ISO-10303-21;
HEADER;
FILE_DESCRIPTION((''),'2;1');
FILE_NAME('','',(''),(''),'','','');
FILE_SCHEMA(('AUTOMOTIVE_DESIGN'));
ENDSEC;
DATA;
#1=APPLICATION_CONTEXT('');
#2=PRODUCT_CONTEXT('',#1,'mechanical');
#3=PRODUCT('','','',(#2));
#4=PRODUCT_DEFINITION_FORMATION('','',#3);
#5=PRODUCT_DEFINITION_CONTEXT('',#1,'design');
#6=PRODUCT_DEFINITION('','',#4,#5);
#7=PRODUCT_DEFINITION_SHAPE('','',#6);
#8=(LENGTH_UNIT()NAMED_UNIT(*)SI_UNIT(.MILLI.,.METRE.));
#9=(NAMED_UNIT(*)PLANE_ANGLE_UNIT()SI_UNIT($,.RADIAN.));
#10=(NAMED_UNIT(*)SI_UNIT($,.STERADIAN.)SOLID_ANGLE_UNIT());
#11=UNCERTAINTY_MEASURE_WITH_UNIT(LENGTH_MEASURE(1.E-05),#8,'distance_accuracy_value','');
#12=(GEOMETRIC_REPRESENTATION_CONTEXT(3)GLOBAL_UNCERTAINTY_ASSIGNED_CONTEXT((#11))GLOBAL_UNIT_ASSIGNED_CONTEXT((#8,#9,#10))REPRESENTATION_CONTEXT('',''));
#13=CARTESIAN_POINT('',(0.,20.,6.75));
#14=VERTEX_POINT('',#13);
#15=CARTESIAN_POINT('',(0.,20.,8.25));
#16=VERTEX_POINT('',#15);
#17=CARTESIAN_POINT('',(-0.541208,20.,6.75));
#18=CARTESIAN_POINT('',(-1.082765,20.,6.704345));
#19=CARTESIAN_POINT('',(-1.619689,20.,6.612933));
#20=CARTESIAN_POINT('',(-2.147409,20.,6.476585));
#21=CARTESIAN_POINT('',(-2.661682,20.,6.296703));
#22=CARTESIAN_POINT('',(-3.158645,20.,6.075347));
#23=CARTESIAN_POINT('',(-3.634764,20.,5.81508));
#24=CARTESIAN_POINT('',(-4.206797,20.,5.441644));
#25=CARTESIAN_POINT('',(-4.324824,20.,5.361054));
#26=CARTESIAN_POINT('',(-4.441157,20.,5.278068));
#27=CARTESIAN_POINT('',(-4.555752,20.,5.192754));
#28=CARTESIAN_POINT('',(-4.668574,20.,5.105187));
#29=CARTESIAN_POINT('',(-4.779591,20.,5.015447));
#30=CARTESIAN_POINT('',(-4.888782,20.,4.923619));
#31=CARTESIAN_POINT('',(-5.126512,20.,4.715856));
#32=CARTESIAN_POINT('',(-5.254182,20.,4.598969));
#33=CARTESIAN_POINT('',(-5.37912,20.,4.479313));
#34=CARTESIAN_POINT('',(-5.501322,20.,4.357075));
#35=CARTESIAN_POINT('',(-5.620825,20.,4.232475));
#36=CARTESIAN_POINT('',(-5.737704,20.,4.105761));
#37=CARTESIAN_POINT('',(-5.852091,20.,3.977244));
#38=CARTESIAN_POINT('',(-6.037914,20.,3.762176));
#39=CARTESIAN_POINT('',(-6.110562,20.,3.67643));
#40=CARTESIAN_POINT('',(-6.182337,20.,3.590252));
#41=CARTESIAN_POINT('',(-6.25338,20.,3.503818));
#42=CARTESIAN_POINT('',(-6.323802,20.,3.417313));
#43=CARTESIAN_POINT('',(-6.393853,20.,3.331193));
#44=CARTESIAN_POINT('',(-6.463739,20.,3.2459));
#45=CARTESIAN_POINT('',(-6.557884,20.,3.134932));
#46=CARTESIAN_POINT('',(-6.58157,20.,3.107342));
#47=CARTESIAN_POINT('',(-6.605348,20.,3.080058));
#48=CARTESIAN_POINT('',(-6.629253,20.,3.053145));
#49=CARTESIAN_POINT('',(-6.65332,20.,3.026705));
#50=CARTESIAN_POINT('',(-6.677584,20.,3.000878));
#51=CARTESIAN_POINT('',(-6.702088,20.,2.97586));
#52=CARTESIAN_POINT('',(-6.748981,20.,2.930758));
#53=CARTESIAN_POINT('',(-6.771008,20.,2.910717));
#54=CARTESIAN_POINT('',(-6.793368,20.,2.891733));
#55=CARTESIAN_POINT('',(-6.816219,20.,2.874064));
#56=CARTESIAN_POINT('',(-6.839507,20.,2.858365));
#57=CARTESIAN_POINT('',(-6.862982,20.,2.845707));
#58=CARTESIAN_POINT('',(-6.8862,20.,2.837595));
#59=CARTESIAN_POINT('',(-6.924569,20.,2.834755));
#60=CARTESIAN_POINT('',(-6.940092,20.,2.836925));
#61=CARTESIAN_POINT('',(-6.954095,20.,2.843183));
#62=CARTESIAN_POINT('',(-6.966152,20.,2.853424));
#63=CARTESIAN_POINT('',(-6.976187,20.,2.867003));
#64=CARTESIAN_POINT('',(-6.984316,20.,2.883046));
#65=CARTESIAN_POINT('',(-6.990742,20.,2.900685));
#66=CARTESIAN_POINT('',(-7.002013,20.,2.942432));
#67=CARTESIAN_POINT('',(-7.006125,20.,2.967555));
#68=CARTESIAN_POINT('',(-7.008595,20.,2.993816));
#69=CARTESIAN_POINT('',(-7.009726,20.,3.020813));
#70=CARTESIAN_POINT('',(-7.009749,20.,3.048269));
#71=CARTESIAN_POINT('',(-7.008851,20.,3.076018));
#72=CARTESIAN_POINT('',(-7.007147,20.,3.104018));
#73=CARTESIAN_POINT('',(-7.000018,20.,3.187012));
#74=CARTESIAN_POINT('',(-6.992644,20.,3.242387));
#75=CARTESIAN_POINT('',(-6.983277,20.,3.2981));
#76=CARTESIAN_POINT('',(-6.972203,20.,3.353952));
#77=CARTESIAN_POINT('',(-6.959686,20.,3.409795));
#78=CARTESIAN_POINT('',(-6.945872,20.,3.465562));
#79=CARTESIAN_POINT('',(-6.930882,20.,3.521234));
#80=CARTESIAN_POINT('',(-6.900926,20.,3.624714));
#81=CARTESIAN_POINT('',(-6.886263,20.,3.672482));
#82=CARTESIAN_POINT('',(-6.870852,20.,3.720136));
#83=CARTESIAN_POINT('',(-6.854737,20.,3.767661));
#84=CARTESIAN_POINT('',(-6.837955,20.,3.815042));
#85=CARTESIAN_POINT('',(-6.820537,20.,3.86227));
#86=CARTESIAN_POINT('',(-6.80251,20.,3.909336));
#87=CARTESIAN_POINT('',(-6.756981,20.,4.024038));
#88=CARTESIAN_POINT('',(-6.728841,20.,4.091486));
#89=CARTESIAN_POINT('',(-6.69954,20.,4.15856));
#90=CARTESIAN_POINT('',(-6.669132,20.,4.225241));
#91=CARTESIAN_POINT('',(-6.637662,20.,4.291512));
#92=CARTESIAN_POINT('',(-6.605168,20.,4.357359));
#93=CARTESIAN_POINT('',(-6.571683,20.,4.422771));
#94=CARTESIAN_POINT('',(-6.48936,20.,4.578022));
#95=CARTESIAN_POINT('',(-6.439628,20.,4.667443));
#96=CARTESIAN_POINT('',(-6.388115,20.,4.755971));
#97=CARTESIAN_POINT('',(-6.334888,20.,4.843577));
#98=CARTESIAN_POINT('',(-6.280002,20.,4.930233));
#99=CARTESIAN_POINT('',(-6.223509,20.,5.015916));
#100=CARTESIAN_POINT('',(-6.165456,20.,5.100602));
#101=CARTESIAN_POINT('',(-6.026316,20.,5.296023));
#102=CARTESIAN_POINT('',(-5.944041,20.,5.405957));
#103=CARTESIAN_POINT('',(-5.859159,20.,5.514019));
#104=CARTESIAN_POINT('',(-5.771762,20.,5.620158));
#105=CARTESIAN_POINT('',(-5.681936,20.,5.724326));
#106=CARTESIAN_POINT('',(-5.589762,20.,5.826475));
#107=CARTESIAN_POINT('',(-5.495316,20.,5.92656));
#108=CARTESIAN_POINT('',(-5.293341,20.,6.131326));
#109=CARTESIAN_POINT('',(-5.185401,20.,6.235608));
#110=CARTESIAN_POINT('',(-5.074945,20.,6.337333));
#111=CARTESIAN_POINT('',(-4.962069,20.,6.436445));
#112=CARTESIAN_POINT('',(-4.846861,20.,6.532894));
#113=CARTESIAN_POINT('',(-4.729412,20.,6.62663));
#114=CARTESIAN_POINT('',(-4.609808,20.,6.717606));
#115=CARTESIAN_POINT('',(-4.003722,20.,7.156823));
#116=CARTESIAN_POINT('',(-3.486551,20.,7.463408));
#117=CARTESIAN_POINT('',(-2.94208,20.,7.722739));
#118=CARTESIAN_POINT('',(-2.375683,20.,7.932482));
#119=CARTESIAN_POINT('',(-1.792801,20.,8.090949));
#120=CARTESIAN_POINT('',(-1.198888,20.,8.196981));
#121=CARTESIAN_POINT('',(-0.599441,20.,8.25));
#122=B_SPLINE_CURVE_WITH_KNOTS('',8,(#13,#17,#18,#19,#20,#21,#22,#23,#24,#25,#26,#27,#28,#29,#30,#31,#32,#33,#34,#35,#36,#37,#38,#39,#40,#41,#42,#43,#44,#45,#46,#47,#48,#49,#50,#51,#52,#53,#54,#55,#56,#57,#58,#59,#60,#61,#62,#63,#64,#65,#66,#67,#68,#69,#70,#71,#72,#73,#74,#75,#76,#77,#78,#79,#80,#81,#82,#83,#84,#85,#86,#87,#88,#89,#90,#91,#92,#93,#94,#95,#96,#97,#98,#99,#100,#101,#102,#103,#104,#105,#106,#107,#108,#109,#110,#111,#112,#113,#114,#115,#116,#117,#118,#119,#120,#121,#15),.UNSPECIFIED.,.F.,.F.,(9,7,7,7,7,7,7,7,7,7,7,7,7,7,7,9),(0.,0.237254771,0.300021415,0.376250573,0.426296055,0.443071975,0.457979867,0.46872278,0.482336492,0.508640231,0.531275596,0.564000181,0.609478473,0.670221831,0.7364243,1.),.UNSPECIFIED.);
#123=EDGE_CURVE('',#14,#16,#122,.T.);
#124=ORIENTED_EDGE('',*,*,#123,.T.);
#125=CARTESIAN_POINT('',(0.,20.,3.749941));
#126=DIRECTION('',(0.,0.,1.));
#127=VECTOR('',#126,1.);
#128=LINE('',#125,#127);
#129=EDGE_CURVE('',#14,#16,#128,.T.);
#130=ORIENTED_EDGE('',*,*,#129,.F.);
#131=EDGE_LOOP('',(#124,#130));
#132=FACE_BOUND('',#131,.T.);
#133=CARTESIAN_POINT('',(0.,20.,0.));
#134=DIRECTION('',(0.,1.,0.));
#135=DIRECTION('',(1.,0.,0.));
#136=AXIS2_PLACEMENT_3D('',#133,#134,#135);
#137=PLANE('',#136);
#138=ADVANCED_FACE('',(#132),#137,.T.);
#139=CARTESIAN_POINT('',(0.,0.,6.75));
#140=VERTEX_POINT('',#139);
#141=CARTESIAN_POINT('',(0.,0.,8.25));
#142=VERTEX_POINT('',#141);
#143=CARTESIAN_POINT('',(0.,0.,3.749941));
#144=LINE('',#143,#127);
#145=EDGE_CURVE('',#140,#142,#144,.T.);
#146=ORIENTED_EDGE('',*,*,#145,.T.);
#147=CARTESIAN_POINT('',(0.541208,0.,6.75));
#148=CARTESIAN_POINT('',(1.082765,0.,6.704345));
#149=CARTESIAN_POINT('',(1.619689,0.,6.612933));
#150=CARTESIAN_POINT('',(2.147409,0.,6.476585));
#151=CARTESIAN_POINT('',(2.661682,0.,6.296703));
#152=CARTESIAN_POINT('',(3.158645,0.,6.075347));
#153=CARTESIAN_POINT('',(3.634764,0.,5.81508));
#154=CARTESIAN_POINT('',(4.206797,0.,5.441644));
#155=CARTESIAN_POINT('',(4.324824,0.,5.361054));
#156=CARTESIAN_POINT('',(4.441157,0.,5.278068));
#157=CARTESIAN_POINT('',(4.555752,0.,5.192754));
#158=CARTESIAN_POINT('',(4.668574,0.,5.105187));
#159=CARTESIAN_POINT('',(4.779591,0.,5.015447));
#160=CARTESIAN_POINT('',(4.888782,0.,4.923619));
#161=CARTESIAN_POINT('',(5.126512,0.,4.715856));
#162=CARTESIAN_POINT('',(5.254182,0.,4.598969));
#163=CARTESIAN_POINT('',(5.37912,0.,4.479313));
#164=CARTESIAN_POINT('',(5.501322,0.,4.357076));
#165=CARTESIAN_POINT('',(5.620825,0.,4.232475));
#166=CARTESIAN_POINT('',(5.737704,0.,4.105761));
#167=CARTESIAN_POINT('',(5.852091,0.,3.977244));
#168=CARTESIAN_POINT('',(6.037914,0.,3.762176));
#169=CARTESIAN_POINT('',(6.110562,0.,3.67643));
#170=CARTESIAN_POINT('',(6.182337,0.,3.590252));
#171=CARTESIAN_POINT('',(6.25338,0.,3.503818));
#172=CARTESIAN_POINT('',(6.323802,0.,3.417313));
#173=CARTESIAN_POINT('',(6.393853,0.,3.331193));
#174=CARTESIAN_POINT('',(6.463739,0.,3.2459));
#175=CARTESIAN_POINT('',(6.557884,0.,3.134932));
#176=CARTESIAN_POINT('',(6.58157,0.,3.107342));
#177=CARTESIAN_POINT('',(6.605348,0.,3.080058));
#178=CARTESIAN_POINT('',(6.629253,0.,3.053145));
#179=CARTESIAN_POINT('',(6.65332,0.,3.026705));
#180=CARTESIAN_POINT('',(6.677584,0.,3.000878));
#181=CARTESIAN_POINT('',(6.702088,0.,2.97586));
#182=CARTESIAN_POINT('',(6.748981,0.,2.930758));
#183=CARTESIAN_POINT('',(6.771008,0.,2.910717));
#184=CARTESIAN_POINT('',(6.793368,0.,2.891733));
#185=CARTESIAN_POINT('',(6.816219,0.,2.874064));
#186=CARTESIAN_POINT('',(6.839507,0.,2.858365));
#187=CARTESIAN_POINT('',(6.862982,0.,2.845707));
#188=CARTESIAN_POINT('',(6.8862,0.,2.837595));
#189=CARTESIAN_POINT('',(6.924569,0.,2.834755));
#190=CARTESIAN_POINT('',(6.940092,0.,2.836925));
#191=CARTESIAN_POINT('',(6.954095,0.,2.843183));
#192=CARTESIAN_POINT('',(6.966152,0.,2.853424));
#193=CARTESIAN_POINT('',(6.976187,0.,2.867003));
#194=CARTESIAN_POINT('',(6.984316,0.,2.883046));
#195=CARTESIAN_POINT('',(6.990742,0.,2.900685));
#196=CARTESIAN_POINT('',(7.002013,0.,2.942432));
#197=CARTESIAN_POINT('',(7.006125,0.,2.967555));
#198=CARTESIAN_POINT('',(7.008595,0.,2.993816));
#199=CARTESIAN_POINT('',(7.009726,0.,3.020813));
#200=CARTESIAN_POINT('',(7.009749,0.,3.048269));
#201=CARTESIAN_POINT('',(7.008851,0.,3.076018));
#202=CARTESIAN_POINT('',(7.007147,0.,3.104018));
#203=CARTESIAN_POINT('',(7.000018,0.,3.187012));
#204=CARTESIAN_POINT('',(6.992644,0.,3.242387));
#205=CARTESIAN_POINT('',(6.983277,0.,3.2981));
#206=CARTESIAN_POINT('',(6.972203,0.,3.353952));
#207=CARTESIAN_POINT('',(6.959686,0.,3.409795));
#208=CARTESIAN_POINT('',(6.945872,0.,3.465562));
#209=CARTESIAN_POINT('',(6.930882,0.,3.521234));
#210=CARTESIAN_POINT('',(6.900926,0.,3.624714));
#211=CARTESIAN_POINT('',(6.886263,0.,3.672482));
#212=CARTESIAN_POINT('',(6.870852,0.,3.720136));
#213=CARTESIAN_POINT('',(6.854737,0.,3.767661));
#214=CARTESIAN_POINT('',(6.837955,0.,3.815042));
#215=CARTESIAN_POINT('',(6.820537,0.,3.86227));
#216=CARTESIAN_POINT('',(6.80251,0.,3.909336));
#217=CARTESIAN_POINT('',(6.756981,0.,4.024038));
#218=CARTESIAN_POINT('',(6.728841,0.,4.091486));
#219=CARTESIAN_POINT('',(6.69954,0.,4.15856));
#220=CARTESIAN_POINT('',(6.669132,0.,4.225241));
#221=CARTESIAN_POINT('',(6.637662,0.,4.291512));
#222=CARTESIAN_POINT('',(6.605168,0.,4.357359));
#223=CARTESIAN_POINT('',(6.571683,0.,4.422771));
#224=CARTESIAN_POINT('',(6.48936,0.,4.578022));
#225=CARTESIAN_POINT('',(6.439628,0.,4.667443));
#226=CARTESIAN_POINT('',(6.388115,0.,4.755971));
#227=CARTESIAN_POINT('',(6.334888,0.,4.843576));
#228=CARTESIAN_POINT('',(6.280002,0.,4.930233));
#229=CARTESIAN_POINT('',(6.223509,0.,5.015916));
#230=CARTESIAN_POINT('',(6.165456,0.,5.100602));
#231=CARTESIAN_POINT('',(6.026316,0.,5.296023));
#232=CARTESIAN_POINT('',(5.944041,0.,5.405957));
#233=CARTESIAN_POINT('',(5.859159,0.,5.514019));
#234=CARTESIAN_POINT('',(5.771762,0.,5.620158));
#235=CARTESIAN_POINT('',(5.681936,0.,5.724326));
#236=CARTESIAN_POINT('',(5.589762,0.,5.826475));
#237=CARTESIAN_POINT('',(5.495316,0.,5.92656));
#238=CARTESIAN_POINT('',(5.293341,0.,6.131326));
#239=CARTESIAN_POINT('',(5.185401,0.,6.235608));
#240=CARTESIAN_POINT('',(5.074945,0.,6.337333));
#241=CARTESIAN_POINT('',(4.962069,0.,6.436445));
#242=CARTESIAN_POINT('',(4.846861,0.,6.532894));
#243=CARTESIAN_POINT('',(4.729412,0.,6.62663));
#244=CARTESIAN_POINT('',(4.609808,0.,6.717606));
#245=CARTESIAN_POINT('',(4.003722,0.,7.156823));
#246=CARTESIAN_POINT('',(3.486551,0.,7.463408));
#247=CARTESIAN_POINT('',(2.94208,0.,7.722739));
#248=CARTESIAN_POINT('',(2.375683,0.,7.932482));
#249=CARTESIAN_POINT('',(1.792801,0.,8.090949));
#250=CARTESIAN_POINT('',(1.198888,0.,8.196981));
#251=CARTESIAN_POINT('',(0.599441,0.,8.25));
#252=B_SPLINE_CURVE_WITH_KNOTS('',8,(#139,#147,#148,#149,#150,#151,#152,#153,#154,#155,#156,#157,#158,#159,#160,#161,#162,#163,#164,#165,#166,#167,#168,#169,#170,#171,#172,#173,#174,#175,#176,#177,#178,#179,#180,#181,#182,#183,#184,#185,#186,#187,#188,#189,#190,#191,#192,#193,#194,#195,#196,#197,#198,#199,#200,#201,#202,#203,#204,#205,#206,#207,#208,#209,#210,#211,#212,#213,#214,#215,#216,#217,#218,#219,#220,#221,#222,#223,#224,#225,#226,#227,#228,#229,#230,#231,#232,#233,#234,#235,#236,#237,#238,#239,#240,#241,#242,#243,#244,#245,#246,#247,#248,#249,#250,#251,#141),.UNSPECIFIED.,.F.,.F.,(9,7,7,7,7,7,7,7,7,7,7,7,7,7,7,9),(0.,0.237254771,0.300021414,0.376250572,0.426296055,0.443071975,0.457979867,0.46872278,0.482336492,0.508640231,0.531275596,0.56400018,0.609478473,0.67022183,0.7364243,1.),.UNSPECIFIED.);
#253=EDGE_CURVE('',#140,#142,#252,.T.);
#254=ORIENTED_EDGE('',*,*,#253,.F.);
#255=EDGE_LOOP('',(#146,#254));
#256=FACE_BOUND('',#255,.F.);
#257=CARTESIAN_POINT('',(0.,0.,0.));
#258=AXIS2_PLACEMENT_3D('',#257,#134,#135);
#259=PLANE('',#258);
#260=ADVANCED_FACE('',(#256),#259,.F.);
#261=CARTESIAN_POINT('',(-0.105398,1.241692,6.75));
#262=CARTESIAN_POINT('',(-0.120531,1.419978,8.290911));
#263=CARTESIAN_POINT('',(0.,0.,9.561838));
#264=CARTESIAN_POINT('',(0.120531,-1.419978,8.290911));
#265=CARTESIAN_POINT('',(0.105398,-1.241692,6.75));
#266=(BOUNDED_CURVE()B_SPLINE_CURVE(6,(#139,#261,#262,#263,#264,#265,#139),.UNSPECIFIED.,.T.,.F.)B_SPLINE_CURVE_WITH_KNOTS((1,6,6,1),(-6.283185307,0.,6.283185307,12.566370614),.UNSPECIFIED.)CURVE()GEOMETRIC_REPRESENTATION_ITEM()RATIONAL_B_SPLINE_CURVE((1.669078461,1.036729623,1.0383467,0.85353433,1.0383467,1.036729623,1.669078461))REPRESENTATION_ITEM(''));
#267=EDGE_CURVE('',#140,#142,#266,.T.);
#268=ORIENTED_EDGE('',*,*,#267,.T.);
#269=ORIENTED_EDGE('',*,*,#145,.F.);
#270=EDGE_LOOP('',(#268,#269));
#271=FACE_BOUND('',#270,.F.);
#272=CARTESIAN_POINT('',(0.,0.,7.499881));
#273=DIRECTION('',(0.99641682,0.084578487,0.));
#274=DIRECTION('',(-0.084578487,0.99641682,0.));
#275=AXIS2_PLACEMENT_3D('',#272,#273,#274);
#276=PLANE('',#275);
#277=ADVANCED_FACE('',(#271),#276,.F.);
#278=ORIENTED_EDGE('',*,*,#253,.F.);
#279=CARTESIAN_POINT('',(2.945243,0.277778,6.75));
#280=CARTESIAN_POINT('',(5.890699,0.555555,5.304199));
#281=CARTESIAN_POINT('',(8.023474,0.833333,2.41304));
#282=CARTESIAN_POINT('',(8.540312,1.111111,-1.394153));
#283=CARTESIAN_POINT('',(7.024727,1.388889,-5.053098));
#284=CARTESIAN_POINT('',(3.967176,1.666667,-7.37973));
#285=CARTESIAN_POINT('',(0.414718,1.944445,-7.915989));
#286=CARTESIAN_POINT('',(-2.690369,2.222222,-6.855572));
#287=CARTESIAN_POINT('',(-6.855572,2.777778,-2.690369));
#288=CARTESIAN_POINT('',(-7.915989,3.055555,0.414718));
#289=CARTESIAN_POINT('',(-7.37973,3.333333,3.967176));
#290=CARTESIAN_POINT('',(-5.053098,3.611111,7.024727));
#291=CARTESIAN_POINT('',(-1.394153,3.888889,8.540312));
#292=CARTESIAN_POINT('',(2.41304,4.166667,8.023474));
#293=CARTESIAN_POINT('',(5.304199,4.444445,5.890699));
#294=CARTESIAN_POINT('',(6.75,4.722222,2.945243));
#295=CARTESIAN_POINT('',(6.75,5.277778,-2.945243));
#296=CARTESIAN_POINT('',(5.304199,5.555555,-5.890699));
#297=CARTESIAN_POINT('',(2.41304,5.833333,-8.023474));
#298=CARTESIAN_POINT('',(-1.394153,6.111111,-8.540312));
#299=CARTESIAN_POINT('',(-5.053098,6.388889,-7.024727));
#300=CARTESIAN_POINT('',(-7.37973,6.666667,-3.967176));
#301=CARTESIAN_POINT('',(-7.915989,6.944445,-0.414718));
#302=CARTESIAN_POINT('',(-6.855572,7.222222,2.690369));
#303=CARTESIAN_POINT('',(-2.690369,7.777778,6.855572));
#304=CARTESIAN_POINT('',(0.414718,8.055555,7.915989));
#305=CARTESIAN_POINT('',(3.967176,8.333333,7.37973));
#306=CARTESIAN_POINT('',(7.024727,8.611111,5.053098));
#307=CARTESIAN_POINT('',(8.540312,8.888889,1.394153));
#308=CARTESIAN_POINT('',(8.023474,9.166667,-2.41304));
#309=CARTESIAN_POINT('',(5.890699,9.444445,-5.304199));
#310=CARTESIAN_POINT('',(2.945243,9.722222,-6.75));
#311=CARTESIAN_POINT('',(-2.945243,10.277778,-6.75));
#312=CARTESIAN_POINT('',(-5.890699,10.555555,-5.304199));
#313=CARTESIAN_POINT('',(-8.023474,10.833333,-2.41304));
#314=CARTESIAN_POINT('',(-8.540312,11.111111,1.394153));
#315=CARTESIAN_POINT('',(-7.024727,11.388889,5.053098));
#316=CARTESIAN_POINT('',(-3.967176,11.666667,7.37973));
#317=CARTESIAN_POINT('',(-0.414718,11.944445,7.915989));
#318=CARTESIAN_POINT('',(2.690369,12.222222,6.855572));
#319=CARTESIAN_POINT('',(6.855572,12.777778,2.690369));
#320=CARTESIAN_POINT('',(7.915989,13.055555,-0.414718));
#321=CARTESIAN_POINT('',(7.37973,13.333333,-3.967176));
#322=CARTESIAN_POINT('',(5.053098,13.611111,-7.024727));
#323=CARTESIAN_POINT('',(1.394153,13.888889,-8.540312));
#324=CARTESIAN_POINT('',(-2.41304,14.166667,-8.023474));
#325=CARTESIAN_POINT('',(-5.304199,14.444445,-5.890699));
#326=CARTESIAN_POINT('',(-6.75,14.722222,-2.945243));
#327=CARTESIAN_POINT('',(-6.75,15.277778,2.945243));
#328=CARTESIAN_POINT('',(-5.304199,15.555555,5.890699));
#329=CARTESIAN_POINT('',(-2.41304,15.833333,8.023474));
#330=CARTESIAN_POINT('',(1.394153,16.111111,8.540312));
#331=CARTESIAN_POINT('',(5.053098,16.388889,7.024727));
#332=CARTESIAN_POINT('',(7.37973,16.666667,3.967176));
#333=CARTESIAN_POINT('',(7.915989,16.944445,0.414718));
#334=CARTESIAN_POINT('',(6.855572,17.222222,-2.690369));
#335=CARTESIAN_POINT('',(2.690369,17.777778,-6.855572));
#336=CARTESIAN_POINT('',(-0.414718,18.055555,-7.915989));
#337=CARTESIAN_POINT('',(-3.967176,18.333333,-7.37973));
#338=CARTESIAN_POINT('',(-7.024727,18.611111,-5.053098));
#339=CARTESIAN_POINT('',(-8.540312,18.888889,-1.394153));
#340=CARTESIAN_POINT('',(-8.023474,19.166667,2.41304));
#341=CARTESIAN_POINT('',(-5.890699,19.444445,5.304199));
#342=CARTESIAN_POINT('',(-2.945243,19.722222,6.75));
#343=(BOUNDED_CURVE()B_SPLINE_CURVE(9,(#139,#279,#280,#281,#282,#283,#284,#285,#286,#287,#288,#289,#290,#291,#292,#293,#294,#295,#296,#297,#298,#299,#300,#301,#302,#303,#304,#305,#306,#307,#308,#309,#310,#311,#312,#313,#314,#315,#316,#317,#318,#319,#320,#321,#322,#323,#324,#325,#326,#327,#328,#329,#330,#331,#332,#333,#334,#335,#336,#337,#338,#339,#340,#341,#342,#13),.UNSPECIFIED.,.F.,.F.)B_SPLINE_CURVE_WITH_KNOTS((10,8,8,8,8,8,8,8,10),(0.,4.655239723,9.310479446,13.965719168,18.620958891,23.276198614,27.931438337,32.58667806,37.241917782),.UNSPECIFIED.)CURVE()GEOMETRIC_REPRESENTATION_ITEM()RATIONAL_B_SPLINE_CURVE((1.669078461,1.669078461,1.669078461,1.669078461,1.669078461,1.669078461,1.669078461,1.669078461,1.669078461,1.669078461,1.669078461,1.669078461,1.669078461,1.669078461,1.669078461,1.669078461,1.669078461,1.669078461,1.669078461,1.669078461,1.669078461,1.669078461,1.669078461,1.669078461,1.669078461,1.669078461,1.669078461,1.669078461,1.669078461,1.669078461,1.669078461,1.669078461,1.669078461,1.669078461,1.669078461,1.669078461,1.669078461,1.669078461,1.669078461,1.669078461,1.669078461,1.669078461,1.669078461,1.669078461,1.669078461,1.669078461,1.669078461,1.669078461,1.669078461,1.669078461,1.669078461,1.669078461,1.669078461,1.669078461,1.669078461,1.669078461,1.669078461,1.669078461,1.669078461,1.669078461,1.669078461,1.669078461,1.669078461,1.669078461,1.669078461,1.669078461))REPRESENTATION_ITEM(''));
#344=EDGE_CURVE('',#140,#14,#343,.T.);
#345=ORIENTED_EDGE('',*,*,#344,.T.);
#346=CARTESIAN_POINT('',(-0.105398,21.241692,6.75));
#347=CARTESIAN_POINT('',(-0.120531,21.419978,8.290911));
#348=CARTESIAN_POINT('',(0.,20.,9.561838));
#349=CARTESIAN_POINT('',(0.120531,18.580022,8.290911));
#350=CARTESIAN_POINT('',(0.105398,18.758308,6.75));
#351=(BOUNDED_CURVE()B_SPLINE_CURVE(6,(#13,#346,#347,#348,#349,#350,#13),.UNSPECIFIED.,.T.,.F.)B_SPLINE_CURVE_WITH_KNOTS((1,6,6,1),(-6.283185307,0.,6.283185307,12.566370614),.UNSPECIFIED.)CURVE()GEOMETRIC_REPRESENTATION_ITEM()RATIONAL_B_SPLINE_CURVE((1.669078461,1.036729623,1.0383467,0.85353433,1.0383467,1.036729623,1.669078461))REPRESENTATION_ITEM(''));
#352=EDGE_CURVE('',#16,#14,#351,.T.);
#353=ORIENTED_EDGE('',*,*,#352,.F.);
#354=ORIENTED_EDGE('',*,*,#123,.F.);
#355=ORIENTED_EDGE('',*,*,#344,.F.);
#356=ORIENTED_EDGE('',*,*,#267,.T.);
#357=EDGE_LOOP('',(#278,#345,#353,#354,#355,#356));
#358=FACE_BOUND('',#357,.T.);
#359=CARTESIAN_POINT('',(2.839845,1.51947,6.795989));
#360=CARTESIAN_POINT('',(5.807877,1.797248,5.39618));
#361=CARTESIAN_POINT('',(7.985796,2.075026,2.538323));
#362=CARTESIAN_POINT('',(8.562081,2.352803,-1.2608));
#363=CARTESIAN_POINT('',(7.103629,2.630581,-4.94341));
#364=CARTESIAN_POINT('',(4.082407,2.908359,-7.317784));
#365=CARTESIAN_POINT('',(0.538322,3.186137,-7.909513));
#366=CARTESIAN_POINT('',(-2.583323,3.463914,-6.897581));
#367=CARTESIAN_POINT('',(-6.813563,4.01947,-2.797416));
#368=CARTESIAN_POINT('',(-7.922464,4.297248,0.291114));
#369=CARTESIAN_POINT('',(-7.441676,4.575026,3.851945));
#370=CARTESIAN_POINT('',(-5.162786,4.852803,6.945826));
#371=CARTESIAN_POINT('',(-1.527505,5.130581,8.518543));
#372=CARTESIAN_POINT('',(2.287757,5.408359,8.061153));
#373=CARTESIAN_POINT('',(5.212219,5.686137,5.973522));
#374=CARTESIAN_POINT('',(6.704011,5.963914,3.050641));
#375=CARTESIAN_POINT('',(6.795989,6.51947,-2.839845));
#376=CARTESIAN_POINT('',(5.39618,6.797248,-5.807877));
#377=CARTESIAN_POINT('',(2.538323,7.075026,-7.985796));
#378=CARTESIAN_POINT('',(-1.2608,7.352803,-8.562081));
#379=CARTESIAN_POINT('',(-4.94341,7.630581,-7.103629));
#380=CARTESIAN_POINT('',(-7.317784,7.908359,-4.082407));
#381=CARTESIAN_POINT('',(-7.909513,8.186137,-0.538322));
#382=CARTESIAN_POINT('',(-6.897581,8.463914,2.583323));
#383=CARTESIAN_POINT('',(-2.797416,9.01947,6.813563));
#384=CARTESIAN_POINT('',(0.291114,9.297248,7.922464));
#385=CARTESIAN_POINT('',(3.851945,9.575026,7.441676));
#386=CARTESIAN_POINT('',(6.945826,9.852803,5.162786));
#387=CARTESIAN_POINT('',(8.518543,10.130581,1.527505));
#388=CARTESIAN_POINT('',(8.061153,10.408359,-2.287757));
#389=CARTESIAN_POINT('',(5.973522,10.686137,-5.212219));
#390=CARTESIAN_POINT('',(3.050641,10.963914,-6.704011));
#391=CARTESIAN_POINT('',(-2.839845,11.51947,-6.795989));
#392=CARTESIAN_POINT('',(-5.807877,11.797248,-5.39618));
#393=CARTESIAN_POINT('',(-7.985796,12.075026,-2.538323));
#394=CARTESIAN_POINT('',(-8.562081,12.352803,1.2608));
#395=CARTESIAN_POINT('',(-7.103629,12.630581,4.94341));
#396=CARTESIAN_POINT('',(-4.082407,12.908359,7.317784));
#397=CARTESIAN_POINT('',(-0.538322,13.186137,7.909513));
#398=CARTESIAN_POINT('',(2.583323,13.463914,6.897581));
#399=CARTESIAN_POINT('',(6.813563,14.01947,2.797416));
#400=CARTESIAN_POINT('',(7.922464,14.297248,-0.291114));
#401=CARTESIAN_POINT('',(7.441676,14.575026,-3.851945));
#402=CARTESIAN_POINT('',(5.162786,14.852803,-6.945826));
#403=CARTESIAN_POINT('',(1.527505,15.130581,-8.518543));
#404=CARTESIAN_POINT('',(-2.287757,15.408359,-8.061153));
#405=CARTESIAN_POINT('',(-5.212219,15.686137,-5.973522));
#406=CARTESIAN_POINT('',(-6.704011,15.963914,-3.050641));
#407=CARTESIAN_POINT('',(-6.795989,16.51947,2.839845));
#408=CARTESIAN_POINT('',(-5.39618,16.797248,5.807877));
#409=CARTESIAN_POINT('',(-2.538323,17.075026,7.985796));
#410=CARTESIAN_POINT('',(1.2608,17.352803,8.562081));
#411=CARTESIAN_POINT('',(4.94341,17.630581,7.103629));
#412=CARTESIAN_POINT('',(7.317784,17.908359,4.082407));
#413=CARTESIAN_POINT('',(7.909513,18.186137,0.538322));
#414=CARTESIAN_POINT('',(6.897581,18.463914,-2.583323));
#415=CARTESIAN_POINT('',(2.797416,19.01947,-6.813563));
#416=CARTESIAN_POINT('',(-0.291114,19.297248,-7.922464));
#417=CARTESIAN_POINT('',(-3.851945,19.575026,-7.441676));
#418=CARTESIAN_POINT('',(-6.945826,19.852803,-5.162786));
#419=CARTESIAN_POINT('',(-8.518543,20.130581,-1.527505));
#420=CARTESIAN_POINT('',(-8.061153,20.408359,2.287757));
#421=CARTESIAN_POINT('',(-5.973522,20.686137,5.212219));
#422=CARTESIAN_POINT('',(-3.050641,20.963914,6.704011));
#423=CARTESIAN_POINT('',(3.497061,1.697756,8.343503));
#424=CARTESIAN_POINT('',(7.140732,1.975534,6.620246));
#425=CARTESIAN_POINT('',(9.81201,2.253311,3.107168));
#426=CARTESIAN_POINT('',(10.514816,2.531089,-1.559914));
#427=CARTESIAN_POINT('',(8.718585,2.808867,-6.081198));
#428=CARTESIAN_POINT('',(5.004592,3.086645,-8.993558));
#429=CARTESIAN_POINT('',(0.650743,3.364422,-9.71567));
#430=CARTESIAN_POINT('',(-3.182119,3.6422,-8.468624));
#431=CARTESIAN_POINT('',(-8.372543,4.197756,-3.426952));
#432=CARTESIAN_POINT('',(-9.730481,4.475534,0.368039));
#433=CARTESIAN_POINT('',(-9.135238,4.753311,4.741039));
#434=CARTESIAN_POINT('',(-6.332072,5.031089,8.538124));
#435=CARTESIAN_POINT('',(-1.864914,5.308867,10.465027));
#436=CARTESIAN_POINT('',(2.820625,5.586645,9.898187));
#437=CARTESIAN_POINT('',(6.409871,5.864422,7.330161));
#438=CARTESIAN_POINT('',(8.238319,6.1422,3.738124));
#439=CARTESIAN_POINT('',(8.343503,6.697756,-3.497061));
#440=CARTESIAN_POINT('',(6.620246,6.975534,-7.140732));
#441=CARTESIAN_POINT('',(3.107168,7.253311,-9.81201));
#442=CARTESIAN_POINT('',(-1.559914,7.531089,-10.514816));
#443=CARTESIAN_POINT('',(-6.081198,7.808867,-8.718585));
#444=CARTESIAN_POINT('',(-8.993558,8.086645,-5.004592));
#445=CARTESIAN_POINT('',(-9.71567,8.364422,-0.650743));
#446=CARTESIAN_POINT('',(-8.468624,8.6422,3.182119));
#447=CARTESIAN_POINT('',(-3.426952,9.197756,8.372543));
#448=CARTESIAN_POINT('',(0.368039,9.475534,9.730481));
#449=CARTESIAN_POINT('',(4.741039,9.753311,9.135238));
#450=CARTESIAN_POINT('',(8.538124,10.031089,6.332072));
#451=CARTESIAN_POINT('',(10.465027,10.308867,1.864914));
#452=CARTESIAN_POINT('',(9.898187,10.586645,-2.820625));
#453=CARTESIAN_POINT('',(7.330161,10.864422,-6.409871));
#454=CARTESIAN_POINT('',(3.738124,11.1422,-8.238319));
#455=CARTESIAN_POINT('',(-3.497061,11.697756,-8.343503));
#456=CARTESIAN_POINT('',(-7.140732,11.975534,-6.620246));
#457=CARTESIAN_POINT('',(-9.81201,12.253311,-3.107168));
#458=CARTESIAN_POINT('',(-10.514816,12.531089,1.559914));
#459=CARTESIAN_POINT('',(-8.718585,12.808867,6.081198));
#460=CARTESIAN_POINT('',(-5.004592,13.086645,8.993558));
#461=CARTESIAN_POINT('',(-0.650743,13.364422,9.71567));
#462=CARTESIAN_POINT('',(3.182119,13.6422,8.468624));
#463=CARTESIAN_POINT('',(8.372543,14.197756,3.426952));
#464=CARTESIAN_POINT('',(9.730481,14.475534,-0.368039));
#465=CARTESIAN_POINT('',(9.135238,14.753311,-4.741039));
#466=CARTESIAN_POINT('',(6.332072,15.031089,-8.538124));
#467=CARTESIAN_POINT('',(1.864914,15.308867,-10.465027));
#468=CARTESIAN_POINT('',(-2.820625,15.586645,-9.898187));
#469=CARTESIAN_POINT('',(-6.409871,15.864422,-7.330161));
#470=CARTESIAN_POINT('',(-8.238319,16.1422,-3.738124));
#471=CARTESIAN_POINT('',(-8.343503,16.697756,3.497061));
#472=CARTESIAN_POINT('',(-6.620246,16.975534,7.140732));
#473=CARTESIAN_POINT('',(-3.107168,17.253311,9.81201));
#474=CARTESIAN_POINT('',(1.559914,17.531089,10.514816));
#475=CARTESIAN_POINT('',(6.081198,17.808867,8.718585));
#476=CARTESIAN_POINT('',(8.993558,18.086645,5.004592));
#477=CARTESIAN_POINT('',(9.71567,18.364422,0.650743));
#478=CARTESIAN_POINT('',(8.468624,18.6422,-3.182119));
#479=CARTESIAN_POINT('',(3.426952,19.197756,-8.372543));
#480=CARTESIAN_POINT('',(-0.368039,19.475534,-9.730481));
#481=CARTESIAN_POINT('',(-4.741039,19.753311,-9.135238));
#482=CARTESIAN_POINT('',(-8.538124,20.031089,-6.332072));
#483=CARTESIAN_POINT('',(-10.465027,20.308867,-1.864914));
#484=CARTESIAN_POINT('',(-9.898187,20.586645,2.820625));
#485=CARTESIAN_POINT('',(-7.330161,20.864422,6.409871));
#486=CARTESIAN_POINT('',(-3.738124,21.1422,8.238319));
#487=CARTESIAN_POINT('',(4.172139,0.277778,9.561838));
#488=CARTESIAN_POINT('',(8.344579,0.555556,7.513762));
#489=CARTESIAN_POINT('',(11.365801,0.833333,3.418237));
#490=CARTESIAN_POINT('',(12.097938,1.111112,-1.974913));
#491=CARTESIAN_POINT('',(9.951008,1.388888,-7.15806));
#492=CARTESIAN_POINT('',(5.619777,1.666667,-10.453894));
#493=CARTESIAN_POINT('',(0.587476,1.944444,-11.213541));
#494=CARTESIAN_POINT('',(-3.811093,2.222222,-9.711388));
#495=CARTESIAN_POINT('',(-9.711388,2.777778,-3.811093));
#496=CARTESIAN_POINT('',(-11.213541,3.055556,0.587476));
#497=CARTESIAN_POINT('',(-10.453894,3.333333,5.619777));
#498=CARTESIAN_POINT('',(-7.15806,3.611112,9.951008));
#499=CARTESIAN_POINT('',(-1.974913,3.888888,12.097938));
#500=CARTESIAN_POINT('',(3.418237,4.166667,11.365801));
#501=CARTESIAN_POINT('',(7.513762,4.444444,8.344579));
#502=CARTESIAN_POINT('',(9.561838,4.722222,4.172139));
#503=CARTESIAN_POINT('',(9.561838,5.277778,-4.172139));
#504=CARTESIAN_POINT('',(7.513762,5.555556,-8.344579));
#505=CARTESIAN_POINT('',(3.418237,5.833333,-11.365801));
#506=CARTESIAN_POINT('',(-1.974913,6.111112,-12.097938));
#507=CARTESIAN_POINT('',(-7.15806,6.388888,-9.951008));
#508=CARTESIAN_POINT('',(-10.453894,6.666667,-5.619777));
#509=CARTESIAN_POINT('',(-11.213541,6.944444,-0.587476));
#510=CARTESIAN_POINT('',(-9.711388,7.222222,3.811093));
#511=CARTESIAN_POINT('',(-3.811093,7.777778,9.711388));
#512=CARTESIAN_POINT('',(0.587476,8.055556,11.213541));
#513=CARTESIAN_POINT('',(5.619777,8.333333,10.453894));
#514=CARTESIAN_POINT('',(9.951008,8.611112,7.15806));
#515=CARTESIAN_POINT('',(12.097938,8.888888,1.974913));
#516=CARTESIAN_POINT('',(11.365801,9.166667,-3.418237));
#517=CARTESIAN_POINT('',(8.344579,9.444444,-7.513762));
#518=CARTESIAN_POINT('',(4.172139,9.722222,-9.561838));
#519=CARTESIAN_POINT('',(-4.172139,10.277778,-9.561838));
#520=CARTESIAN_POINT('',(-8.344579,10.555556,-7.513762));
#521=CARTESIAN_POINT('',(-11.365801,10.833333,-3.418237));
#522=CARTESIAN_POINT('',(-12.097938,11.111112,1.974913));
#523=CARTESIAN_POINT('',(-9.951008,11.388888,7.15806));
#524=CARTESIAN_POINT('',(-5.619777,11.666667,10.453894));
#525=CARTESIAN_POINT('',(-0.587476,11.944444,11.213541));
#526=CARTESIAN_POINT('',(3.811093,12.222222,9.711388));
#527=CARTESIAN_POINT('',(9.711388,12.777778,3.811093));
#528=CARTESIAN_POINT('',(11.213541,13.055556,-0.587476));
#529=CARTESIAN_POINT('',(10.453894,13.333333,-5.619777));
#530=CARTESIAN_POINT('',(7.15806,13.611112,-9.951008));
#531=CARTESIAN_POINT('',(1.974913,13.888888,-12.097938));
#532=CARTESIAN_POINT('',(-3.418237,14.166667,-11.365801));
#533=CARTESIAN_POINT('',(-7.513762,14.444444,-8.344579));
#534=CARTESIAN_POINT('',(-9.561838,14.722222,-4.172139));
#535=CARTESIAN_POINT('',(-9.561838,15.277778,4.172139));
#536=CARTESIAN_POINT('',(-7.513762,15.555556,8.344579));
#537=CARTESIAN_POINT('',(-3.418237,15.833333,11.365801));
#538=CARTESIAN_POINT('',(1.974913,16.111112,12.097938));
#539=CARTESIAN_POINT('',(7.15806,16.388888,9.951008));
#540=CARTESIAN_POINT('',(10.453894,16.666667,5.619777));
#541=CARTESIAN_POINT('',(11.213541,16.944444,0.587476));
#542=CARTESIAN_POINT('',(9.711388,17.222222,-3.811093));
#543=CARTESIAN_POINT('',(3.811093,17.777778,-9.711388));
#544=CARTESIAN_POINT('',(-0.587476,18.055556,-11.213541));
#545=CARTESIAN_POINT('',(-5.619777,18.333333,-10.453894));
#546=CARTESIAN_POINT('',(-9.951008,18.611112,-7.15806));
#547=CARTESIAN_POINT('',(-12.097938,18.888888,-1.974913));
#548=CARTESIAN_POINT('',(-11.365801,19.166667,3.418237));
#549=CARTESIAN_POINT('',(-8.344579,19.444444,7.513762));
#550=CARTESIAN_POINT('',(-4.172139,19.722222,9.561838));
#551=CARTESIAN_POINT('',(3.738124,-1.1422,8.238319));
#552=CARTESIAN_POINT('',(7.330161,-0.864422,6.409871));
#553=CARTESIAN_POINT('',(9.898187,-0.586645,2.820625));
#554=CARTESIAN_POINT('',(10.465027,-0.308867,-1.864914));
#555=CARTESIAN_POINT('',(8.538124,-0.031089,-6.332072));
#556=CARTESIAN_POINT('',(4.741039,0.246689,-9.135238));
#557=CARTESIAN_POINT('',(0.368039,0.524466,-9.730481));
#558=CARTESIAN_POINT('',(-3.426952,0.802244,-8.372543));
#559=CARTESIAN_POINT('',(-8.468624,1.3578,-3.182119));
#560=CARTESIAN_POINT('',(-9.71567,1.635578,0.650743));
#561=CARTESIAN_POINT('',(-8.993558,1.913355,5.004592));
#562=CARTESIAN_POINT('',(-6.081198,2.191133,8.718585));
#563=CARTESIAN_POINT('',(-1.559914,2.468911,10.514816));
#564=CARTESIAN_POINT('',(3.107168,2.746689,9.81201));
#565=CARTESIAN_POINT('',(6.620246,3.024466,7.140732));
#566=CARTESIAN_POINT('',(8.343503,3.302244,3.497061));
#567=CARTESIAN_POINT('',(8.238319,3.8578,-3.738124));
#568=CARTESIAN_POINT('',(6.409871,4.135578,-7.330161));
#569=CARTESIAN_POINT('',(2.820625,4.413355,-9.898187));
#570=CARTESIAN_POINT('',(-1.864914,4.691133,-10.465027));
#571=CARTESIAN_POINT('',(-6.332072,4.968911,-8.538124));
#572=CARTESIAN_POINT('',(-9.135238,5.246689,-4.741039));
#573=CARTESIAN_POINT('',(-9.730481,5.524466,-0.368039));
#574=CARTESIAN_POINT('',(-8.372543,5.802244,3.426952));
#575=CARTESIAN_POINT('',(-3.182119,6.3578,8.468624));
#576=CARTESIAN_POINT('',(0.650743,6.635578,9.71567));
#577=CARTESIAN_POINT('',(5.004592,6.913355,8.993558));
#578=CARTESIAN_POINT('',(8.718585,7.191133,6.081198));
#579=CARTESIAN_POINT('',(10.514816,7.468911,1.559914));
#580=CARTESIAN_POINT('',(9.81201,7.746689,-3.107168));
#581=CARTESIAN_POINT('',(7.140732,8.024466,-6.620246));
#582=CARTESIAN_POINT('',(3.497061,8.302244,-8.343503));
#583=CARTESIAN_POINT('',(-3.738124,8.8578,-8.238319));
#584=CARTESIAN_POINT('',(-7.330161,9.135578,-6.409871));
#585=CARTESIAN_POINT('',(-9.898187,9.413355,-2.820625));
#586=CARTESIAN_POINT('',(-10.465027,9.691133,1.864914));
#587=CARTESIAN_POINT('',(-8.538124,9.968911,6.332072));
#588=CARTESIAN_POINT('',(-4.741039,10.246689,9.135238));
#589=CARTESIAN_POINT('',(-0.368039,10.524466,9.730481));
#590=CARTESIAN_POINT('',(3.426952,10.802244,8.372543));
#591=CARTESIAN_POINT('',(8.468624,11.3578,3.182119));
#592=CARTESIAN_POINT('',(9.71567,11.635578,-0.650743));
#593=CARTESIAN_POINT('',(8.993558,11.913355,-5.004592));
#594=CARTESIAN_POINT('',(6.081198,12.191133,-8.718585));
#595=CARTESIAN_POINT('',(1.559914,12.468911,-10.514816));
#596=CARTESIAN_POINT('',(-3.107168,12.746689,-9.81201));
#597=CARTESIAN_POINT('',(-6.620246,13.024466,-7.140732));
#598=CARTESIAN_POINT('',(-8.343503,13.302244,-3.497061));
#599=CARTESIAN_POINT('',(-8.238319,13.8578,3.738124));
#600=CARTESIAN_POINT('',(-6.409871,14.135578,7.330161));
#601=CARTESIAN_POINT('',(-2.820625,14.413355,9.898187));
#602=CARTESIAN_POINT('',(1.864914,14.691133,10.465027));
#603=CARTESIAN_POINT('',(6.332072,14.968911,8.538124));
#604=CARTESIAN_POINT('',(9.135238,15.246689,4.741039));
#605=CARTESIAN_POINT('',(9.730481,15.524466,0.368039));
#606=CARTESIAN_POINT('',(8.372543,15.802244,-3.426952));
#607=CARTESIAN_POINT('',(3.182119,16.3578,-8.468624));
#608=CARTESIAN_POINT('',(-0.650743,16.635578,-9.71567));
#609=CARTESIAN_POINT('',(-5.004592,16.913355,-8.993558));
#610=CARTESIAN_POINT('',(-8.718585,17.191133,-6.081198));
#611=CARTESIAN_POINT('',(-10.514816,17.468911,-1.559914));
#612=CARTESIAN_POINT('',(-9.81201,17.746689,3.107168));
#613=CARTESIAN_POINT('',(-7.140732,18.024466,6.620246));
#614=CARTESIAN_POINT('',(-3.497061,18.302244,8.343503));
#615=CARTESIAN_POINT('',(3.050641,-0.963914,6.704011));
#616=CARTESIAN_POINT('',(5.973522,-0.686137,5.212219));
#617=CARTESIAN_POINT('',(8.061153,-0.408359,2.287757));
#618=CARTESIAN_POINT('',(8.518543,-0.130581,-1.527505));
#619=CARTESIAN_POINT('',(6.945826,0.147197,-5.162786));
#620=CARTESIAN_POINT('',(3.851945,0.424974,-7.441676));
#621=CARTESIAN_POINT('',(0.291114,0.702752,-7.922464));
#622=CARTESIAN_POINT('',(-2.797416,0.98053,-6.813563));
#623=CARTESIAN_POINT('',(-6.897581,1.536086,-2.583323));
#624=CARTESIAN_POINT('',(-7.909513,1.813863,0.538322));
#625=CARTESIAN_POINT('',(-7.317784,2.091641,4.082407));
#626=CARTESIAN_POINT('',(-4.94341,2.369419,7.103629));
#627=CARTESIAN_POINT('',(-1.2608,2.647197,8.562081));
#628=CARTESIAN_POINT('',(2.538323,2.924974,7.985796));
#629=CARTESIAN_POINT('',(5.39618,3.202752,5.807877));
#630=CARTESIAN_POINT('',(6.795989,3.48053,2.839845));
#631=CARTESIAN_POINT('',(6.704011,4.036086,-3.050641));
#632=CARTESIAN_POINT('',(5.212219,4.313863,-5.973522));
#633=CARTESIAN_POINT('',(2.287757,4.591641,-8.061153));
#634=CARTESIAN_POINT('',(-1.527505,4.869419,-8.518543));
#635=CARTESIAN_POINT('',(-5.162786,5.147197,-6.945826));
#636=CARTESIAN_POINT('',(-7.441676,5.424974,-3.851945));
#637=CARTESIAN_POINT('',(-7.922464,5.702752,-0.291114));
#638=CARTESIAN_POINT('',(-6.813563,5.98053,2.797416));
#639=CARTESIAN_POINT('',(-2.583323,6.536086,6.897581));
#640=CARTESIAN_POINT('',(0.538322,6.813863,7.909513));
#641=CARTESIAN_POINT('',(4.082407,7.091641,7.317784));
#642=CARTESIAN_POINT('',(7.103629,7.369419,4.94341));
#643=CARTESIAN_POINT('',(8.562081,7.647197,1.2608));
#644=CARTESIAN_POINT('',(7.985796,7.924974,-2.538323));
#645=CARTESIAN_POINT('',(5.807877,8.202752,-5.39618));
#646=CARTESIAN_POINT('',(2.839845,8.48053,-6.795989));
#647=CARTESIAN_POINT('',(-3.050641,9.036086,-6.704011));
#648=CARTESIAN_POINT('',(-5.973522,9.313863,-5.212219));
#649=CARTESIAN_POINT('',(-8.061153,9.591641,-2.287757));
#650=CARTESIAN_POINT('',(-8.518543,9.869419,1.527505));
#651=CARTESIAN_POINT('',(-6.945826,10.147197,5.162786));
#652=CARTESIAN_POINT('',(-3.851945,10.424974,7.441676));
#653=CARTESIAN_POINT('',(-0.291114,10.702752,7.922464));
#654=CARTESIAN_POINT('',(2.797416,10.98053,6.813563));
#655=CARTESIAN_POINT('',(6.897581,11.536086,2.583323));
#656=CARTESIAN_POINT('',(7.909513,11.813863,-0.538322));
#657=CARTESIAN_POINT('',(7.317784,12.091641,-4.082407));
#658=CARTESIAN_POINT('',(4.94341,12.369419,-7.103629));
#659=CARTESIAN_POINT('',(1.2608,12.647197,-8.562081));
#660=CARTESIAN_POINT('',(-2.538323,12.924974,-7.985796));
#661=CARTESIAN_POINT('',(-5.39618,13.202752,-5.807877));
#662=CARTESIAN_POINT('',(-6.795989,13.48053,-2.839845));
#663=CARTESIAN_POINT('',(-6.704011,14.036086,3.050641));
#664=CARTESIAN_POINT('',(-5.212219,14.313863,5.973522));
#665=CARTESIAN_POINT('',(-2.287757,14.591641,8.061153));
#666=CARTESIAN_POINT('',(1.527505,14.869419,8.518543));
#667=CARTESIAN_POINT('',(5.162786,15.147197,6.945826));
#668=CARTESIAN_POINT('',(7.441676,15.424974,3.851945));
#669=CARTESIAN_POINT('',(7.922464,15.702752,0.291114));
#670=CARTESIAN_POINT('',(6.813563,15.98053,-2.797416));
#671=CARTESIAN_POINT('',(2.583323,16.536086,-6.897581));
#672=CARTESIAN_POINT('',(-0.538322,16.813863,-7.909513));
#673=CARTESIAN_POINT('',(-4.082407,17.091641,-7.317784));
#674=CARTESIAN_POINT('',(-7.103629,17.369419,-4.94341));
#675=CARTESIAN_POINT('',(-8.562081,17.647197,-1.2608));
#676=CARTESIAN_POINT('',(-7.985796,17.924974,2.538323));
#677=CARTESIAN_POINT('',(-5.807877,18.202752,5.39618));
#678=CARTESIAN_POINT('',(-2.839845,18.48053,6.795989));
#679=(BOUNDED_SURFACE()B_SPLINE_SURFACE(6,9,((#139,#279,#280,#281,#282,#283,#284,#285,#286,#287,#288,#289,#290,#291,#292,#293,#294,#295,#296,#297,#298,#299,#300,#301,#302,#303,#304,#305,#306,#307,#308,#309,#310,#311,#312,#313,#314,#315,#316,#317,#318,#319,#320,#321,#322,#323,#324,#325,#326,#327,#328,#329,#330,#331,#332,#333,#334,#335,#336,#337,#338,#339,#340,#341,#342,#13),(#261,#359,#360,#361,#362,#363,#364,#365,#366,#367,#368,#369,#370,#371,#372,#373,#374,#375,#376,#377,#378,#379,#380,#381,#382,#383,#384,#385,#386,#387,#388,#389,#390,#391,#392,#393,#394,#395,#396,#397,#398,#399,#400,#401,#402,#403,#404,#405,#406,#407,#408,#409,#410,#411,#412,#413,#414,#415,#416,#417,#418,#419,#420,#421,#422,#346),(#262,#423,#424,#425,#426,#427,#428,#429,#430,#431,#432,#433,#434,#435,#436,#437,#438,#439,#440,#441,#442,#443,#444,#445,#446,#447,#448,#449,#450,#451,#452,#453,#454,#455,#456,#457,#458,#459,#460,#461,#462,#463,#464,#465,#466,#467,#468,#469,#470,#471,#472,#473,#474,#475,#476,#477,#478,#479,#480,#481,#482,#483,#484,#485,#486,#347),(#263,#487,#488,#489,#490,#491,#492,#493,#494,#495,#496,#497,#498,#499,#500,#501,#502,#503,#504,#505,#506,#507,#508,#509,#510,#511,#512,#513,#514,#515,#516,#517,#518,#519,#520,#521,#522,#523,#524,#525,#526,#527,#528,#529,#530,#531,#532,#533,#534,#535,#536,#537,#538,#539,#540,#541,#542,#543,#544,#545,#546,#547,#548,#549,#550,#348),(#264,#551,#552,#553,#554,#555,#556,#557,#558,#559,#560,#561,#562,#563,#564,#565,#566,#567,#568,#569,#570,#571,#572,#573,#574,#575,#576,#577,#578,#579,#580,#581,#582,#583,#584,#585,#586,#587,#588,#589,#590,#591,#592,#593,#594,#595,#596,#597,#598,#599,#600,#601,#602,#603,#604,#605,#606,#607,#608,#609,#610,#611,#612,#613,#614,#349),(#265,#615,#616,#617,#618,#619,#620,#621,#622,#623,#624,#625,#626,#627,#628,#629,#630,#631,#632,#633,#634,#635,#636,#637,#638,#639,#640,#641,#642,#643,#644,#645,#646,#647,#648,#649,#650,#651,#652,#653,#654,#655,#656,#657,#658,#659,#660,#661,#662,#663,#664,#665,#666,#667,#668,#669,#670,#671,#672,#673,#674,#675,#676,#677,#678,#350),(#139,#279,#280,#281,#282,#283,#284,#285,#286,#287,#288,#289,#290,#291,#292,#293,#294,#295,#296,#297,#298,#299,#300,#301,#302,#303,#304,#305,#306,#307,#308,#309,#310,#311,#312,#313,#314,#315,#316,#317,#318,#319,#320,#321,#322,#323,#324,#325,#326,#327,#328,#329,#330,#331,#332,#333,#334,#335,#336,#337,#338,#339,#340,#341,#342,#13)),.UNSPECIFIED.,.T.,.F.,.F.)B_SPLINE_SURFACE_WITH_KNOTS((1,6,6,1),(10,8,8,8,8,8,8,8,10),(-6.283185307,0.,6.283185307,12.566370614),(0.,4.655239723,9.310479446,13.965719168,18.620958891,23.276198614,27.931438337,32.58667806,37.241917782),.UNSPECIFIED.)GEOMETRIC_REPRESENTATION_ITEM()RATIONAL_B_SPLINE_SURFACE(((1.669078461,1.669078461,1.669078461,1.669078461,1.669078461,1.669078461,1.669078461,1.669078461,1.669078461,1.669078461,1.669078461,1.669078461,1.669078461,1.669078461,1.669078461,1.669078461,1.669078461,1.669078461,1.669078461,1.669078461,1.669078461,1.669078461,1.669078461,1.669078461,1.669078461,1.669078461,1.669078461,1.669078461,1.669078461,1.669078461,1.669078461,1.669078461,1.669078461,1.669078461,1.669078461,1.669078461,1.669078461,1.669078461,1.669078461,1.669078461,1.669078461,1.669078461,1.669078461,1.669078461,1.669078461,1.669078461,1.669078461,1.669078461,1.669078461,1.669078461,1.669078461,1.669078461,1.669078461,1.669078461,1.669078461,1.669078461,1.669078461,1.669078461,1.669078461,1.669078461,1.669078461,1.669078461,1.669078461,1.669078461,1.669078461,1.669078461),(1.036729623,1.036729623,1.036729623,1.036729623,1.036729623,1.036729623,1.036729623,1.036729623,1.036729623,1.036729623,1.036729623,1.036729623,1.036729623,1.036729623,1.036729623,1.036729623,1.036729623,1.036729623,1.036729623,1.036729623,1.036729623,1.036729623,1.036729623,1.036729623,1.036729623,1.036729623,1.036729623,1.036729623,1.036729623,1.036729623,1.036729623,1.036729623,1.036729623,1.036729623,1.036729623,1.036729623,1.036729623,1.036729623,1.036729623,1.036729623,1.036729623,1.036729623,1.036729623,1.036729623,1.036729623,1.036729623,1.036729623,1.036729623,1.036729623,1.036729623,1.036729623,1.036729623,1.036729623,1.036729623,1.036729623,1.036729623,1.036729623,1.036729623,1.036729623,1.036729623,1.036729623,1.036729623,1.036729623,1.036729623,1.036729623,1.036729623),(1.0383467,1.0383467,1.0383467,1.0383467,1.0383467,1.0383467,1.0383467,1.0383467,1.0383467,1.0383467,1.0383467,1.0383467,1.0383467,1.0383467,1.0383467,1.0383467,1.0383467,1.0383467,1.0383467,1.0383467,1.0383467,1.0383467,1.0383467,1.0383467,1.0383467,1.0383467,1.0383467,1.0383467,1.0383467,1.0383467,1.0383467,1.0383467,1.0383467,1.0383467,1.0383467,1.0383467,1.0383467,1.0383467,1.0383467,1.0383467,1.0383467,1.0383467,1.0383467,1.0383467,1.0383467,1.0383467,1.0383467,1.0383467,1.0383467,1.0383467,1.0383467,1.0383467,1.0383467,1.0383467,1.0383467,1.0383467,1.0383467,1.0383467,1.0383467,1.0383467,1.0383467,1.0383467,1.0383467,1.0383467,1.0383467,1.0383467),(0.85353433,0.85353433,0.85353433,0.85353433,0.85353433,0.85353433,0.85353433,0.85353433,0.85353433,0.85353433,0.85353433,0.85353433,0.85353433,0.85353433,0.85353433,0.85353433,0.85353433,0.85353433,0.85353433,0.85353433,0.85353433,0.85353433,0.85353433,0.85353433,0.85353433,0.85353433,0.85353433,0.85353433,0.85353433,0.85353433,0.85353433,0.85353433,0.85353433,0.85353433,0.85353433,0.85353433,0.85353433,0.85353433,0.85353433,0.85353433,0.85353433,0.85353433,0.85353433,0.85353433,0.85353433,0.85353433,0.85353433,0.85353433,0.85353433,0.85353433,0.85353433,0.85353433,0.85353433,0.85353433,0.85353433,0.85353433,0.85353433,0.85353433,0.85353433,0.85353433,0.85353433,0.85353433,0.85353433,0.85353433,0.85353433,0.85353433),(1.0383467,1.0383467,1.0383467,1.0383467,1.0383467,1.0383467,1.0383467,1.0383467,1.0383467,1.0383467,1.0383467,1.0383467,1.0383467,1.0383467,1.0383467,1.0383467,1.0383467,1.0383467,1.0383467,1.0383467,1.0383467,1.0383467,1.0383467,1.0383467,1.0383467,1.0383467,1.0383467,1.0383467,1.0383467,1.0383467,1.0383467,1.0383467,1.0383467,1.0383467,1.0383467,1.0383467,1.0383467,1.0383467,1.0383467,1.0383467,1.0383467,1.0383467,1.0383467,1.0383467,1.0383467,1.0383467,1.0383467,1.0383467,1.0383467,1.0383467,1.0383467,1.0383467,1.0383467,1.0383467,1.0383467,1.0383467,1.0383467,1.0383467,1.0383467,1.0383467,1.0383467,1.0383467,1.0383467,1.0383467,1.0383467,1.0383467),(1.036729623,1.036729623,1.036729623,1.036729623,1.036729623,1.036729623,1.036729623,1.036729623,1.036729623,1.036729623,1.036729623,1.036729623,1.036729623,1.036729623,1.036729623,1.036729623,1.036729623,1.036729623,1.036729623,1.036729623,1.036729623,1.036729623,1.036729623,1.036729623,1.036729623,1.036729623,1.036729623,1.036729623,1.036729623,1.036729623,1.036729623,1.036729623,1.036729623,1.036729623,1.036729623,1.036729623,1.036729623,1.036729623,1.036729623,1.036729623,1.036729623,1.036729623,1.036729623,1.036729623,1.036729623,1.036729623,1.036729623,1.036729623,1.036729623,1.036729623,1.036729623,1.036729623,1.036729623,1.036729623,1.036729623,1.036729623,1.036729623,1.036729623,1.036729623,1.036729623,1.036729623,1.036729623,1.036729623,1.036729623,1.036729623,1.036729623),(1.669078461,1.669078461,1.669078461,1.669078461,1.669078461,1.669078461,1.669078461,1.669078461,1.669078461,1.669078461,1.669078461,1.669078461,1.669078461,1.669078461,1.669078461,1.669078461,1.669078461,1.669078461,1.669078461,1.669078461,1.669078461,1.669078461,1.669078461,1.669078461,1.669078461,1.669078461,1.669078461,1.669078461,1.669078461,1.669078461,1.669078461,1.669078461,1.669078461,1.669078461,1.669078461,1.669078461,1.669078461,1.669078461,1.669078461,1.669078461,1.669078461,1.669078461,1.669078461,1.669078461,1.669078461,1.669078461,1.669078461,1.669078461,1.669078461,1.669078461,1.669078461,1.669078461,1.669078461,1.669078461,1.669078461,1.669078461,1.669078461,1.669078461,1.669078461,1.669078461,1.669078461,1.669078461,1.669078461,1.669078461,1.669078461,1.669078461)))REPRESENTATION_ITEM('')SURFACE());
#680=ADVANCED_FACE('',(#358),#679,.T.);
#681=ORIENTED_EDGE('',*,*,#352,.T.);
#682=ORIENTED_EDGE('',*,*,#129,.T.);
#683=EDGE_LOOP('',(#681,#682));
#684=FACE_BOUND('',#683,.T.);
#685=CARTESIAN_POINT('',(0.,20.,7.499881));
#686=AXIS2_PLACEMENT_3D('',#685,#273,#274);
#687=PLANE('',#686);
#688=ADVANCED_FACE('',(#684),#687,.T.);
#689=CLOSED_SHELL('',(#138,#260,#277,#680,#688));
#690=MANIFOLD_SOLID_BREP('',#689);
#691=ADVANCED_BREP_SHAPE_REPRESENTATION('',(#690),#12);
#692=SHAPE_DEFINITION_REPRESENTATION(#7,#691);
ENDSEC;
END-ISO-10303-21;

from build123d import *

# Parameters (mm, degrees)
SWEEP_1_PITCH       = 4
SWEEP_1_HEIGHT      = 20
SWEEP_1_RADIUS      = 7.5
SKETCH_5_R          = 0.75
SKETCH_6_R          = 10.337728571
CUT_EXTRUDE_1_DEPTH = 10
SKETCH_7_R          = 10.142927146
CUT_EXTRUDE_2_DEPTH = 10


with BuildPart() as part:
    # По траектории1: sweep along a helix
    with BuildLine() as sweep_1_path:
        Helix(SWEEP_1_PITCH, SWEEP_1_HEIGHT, SWEEP_1_RADIUS, center=(0, 0, 0), direction=(0, 1, 0))
    # Эскиз5 → По траектории1 (sweep)
    with BuildSketch(Plane(origin=(0, 0, 7.5), x_dir=(0, 0, -1), z_dir=(0.99641682, 0.084578487, 0))):
        Circle(SKETCH_5_R)
    sweep(path=sweep_1_path.line, is_frenet=True)

    # Эскиз6 → Вырез-Вытянуть1 (cut)
    with BuildSketch(Plane(origin=(0, 0, 0), x_dir=(1, 0, 0), z_dir=(0, 1, 0))):
        Circle(SKETCH_6_R)
    extrude(amount=-CUT_EXTRUDE_1_DEPTH, mode=Mode.SUBTRACT)

    # Эскиз7 → Вырез-Вытянуть2 (cut)
    with BuildSketch(Plane(origin=(0, 20, 0), x_dir=(1, 0, 0), z_dir=(0, 1, 0))):
        Circle(SKETCH_7_R)
    extrude(amount=CUT_EXTRUDE_2_DEPTH, mode=Mode.SUBTRACT)


solid = part.part
